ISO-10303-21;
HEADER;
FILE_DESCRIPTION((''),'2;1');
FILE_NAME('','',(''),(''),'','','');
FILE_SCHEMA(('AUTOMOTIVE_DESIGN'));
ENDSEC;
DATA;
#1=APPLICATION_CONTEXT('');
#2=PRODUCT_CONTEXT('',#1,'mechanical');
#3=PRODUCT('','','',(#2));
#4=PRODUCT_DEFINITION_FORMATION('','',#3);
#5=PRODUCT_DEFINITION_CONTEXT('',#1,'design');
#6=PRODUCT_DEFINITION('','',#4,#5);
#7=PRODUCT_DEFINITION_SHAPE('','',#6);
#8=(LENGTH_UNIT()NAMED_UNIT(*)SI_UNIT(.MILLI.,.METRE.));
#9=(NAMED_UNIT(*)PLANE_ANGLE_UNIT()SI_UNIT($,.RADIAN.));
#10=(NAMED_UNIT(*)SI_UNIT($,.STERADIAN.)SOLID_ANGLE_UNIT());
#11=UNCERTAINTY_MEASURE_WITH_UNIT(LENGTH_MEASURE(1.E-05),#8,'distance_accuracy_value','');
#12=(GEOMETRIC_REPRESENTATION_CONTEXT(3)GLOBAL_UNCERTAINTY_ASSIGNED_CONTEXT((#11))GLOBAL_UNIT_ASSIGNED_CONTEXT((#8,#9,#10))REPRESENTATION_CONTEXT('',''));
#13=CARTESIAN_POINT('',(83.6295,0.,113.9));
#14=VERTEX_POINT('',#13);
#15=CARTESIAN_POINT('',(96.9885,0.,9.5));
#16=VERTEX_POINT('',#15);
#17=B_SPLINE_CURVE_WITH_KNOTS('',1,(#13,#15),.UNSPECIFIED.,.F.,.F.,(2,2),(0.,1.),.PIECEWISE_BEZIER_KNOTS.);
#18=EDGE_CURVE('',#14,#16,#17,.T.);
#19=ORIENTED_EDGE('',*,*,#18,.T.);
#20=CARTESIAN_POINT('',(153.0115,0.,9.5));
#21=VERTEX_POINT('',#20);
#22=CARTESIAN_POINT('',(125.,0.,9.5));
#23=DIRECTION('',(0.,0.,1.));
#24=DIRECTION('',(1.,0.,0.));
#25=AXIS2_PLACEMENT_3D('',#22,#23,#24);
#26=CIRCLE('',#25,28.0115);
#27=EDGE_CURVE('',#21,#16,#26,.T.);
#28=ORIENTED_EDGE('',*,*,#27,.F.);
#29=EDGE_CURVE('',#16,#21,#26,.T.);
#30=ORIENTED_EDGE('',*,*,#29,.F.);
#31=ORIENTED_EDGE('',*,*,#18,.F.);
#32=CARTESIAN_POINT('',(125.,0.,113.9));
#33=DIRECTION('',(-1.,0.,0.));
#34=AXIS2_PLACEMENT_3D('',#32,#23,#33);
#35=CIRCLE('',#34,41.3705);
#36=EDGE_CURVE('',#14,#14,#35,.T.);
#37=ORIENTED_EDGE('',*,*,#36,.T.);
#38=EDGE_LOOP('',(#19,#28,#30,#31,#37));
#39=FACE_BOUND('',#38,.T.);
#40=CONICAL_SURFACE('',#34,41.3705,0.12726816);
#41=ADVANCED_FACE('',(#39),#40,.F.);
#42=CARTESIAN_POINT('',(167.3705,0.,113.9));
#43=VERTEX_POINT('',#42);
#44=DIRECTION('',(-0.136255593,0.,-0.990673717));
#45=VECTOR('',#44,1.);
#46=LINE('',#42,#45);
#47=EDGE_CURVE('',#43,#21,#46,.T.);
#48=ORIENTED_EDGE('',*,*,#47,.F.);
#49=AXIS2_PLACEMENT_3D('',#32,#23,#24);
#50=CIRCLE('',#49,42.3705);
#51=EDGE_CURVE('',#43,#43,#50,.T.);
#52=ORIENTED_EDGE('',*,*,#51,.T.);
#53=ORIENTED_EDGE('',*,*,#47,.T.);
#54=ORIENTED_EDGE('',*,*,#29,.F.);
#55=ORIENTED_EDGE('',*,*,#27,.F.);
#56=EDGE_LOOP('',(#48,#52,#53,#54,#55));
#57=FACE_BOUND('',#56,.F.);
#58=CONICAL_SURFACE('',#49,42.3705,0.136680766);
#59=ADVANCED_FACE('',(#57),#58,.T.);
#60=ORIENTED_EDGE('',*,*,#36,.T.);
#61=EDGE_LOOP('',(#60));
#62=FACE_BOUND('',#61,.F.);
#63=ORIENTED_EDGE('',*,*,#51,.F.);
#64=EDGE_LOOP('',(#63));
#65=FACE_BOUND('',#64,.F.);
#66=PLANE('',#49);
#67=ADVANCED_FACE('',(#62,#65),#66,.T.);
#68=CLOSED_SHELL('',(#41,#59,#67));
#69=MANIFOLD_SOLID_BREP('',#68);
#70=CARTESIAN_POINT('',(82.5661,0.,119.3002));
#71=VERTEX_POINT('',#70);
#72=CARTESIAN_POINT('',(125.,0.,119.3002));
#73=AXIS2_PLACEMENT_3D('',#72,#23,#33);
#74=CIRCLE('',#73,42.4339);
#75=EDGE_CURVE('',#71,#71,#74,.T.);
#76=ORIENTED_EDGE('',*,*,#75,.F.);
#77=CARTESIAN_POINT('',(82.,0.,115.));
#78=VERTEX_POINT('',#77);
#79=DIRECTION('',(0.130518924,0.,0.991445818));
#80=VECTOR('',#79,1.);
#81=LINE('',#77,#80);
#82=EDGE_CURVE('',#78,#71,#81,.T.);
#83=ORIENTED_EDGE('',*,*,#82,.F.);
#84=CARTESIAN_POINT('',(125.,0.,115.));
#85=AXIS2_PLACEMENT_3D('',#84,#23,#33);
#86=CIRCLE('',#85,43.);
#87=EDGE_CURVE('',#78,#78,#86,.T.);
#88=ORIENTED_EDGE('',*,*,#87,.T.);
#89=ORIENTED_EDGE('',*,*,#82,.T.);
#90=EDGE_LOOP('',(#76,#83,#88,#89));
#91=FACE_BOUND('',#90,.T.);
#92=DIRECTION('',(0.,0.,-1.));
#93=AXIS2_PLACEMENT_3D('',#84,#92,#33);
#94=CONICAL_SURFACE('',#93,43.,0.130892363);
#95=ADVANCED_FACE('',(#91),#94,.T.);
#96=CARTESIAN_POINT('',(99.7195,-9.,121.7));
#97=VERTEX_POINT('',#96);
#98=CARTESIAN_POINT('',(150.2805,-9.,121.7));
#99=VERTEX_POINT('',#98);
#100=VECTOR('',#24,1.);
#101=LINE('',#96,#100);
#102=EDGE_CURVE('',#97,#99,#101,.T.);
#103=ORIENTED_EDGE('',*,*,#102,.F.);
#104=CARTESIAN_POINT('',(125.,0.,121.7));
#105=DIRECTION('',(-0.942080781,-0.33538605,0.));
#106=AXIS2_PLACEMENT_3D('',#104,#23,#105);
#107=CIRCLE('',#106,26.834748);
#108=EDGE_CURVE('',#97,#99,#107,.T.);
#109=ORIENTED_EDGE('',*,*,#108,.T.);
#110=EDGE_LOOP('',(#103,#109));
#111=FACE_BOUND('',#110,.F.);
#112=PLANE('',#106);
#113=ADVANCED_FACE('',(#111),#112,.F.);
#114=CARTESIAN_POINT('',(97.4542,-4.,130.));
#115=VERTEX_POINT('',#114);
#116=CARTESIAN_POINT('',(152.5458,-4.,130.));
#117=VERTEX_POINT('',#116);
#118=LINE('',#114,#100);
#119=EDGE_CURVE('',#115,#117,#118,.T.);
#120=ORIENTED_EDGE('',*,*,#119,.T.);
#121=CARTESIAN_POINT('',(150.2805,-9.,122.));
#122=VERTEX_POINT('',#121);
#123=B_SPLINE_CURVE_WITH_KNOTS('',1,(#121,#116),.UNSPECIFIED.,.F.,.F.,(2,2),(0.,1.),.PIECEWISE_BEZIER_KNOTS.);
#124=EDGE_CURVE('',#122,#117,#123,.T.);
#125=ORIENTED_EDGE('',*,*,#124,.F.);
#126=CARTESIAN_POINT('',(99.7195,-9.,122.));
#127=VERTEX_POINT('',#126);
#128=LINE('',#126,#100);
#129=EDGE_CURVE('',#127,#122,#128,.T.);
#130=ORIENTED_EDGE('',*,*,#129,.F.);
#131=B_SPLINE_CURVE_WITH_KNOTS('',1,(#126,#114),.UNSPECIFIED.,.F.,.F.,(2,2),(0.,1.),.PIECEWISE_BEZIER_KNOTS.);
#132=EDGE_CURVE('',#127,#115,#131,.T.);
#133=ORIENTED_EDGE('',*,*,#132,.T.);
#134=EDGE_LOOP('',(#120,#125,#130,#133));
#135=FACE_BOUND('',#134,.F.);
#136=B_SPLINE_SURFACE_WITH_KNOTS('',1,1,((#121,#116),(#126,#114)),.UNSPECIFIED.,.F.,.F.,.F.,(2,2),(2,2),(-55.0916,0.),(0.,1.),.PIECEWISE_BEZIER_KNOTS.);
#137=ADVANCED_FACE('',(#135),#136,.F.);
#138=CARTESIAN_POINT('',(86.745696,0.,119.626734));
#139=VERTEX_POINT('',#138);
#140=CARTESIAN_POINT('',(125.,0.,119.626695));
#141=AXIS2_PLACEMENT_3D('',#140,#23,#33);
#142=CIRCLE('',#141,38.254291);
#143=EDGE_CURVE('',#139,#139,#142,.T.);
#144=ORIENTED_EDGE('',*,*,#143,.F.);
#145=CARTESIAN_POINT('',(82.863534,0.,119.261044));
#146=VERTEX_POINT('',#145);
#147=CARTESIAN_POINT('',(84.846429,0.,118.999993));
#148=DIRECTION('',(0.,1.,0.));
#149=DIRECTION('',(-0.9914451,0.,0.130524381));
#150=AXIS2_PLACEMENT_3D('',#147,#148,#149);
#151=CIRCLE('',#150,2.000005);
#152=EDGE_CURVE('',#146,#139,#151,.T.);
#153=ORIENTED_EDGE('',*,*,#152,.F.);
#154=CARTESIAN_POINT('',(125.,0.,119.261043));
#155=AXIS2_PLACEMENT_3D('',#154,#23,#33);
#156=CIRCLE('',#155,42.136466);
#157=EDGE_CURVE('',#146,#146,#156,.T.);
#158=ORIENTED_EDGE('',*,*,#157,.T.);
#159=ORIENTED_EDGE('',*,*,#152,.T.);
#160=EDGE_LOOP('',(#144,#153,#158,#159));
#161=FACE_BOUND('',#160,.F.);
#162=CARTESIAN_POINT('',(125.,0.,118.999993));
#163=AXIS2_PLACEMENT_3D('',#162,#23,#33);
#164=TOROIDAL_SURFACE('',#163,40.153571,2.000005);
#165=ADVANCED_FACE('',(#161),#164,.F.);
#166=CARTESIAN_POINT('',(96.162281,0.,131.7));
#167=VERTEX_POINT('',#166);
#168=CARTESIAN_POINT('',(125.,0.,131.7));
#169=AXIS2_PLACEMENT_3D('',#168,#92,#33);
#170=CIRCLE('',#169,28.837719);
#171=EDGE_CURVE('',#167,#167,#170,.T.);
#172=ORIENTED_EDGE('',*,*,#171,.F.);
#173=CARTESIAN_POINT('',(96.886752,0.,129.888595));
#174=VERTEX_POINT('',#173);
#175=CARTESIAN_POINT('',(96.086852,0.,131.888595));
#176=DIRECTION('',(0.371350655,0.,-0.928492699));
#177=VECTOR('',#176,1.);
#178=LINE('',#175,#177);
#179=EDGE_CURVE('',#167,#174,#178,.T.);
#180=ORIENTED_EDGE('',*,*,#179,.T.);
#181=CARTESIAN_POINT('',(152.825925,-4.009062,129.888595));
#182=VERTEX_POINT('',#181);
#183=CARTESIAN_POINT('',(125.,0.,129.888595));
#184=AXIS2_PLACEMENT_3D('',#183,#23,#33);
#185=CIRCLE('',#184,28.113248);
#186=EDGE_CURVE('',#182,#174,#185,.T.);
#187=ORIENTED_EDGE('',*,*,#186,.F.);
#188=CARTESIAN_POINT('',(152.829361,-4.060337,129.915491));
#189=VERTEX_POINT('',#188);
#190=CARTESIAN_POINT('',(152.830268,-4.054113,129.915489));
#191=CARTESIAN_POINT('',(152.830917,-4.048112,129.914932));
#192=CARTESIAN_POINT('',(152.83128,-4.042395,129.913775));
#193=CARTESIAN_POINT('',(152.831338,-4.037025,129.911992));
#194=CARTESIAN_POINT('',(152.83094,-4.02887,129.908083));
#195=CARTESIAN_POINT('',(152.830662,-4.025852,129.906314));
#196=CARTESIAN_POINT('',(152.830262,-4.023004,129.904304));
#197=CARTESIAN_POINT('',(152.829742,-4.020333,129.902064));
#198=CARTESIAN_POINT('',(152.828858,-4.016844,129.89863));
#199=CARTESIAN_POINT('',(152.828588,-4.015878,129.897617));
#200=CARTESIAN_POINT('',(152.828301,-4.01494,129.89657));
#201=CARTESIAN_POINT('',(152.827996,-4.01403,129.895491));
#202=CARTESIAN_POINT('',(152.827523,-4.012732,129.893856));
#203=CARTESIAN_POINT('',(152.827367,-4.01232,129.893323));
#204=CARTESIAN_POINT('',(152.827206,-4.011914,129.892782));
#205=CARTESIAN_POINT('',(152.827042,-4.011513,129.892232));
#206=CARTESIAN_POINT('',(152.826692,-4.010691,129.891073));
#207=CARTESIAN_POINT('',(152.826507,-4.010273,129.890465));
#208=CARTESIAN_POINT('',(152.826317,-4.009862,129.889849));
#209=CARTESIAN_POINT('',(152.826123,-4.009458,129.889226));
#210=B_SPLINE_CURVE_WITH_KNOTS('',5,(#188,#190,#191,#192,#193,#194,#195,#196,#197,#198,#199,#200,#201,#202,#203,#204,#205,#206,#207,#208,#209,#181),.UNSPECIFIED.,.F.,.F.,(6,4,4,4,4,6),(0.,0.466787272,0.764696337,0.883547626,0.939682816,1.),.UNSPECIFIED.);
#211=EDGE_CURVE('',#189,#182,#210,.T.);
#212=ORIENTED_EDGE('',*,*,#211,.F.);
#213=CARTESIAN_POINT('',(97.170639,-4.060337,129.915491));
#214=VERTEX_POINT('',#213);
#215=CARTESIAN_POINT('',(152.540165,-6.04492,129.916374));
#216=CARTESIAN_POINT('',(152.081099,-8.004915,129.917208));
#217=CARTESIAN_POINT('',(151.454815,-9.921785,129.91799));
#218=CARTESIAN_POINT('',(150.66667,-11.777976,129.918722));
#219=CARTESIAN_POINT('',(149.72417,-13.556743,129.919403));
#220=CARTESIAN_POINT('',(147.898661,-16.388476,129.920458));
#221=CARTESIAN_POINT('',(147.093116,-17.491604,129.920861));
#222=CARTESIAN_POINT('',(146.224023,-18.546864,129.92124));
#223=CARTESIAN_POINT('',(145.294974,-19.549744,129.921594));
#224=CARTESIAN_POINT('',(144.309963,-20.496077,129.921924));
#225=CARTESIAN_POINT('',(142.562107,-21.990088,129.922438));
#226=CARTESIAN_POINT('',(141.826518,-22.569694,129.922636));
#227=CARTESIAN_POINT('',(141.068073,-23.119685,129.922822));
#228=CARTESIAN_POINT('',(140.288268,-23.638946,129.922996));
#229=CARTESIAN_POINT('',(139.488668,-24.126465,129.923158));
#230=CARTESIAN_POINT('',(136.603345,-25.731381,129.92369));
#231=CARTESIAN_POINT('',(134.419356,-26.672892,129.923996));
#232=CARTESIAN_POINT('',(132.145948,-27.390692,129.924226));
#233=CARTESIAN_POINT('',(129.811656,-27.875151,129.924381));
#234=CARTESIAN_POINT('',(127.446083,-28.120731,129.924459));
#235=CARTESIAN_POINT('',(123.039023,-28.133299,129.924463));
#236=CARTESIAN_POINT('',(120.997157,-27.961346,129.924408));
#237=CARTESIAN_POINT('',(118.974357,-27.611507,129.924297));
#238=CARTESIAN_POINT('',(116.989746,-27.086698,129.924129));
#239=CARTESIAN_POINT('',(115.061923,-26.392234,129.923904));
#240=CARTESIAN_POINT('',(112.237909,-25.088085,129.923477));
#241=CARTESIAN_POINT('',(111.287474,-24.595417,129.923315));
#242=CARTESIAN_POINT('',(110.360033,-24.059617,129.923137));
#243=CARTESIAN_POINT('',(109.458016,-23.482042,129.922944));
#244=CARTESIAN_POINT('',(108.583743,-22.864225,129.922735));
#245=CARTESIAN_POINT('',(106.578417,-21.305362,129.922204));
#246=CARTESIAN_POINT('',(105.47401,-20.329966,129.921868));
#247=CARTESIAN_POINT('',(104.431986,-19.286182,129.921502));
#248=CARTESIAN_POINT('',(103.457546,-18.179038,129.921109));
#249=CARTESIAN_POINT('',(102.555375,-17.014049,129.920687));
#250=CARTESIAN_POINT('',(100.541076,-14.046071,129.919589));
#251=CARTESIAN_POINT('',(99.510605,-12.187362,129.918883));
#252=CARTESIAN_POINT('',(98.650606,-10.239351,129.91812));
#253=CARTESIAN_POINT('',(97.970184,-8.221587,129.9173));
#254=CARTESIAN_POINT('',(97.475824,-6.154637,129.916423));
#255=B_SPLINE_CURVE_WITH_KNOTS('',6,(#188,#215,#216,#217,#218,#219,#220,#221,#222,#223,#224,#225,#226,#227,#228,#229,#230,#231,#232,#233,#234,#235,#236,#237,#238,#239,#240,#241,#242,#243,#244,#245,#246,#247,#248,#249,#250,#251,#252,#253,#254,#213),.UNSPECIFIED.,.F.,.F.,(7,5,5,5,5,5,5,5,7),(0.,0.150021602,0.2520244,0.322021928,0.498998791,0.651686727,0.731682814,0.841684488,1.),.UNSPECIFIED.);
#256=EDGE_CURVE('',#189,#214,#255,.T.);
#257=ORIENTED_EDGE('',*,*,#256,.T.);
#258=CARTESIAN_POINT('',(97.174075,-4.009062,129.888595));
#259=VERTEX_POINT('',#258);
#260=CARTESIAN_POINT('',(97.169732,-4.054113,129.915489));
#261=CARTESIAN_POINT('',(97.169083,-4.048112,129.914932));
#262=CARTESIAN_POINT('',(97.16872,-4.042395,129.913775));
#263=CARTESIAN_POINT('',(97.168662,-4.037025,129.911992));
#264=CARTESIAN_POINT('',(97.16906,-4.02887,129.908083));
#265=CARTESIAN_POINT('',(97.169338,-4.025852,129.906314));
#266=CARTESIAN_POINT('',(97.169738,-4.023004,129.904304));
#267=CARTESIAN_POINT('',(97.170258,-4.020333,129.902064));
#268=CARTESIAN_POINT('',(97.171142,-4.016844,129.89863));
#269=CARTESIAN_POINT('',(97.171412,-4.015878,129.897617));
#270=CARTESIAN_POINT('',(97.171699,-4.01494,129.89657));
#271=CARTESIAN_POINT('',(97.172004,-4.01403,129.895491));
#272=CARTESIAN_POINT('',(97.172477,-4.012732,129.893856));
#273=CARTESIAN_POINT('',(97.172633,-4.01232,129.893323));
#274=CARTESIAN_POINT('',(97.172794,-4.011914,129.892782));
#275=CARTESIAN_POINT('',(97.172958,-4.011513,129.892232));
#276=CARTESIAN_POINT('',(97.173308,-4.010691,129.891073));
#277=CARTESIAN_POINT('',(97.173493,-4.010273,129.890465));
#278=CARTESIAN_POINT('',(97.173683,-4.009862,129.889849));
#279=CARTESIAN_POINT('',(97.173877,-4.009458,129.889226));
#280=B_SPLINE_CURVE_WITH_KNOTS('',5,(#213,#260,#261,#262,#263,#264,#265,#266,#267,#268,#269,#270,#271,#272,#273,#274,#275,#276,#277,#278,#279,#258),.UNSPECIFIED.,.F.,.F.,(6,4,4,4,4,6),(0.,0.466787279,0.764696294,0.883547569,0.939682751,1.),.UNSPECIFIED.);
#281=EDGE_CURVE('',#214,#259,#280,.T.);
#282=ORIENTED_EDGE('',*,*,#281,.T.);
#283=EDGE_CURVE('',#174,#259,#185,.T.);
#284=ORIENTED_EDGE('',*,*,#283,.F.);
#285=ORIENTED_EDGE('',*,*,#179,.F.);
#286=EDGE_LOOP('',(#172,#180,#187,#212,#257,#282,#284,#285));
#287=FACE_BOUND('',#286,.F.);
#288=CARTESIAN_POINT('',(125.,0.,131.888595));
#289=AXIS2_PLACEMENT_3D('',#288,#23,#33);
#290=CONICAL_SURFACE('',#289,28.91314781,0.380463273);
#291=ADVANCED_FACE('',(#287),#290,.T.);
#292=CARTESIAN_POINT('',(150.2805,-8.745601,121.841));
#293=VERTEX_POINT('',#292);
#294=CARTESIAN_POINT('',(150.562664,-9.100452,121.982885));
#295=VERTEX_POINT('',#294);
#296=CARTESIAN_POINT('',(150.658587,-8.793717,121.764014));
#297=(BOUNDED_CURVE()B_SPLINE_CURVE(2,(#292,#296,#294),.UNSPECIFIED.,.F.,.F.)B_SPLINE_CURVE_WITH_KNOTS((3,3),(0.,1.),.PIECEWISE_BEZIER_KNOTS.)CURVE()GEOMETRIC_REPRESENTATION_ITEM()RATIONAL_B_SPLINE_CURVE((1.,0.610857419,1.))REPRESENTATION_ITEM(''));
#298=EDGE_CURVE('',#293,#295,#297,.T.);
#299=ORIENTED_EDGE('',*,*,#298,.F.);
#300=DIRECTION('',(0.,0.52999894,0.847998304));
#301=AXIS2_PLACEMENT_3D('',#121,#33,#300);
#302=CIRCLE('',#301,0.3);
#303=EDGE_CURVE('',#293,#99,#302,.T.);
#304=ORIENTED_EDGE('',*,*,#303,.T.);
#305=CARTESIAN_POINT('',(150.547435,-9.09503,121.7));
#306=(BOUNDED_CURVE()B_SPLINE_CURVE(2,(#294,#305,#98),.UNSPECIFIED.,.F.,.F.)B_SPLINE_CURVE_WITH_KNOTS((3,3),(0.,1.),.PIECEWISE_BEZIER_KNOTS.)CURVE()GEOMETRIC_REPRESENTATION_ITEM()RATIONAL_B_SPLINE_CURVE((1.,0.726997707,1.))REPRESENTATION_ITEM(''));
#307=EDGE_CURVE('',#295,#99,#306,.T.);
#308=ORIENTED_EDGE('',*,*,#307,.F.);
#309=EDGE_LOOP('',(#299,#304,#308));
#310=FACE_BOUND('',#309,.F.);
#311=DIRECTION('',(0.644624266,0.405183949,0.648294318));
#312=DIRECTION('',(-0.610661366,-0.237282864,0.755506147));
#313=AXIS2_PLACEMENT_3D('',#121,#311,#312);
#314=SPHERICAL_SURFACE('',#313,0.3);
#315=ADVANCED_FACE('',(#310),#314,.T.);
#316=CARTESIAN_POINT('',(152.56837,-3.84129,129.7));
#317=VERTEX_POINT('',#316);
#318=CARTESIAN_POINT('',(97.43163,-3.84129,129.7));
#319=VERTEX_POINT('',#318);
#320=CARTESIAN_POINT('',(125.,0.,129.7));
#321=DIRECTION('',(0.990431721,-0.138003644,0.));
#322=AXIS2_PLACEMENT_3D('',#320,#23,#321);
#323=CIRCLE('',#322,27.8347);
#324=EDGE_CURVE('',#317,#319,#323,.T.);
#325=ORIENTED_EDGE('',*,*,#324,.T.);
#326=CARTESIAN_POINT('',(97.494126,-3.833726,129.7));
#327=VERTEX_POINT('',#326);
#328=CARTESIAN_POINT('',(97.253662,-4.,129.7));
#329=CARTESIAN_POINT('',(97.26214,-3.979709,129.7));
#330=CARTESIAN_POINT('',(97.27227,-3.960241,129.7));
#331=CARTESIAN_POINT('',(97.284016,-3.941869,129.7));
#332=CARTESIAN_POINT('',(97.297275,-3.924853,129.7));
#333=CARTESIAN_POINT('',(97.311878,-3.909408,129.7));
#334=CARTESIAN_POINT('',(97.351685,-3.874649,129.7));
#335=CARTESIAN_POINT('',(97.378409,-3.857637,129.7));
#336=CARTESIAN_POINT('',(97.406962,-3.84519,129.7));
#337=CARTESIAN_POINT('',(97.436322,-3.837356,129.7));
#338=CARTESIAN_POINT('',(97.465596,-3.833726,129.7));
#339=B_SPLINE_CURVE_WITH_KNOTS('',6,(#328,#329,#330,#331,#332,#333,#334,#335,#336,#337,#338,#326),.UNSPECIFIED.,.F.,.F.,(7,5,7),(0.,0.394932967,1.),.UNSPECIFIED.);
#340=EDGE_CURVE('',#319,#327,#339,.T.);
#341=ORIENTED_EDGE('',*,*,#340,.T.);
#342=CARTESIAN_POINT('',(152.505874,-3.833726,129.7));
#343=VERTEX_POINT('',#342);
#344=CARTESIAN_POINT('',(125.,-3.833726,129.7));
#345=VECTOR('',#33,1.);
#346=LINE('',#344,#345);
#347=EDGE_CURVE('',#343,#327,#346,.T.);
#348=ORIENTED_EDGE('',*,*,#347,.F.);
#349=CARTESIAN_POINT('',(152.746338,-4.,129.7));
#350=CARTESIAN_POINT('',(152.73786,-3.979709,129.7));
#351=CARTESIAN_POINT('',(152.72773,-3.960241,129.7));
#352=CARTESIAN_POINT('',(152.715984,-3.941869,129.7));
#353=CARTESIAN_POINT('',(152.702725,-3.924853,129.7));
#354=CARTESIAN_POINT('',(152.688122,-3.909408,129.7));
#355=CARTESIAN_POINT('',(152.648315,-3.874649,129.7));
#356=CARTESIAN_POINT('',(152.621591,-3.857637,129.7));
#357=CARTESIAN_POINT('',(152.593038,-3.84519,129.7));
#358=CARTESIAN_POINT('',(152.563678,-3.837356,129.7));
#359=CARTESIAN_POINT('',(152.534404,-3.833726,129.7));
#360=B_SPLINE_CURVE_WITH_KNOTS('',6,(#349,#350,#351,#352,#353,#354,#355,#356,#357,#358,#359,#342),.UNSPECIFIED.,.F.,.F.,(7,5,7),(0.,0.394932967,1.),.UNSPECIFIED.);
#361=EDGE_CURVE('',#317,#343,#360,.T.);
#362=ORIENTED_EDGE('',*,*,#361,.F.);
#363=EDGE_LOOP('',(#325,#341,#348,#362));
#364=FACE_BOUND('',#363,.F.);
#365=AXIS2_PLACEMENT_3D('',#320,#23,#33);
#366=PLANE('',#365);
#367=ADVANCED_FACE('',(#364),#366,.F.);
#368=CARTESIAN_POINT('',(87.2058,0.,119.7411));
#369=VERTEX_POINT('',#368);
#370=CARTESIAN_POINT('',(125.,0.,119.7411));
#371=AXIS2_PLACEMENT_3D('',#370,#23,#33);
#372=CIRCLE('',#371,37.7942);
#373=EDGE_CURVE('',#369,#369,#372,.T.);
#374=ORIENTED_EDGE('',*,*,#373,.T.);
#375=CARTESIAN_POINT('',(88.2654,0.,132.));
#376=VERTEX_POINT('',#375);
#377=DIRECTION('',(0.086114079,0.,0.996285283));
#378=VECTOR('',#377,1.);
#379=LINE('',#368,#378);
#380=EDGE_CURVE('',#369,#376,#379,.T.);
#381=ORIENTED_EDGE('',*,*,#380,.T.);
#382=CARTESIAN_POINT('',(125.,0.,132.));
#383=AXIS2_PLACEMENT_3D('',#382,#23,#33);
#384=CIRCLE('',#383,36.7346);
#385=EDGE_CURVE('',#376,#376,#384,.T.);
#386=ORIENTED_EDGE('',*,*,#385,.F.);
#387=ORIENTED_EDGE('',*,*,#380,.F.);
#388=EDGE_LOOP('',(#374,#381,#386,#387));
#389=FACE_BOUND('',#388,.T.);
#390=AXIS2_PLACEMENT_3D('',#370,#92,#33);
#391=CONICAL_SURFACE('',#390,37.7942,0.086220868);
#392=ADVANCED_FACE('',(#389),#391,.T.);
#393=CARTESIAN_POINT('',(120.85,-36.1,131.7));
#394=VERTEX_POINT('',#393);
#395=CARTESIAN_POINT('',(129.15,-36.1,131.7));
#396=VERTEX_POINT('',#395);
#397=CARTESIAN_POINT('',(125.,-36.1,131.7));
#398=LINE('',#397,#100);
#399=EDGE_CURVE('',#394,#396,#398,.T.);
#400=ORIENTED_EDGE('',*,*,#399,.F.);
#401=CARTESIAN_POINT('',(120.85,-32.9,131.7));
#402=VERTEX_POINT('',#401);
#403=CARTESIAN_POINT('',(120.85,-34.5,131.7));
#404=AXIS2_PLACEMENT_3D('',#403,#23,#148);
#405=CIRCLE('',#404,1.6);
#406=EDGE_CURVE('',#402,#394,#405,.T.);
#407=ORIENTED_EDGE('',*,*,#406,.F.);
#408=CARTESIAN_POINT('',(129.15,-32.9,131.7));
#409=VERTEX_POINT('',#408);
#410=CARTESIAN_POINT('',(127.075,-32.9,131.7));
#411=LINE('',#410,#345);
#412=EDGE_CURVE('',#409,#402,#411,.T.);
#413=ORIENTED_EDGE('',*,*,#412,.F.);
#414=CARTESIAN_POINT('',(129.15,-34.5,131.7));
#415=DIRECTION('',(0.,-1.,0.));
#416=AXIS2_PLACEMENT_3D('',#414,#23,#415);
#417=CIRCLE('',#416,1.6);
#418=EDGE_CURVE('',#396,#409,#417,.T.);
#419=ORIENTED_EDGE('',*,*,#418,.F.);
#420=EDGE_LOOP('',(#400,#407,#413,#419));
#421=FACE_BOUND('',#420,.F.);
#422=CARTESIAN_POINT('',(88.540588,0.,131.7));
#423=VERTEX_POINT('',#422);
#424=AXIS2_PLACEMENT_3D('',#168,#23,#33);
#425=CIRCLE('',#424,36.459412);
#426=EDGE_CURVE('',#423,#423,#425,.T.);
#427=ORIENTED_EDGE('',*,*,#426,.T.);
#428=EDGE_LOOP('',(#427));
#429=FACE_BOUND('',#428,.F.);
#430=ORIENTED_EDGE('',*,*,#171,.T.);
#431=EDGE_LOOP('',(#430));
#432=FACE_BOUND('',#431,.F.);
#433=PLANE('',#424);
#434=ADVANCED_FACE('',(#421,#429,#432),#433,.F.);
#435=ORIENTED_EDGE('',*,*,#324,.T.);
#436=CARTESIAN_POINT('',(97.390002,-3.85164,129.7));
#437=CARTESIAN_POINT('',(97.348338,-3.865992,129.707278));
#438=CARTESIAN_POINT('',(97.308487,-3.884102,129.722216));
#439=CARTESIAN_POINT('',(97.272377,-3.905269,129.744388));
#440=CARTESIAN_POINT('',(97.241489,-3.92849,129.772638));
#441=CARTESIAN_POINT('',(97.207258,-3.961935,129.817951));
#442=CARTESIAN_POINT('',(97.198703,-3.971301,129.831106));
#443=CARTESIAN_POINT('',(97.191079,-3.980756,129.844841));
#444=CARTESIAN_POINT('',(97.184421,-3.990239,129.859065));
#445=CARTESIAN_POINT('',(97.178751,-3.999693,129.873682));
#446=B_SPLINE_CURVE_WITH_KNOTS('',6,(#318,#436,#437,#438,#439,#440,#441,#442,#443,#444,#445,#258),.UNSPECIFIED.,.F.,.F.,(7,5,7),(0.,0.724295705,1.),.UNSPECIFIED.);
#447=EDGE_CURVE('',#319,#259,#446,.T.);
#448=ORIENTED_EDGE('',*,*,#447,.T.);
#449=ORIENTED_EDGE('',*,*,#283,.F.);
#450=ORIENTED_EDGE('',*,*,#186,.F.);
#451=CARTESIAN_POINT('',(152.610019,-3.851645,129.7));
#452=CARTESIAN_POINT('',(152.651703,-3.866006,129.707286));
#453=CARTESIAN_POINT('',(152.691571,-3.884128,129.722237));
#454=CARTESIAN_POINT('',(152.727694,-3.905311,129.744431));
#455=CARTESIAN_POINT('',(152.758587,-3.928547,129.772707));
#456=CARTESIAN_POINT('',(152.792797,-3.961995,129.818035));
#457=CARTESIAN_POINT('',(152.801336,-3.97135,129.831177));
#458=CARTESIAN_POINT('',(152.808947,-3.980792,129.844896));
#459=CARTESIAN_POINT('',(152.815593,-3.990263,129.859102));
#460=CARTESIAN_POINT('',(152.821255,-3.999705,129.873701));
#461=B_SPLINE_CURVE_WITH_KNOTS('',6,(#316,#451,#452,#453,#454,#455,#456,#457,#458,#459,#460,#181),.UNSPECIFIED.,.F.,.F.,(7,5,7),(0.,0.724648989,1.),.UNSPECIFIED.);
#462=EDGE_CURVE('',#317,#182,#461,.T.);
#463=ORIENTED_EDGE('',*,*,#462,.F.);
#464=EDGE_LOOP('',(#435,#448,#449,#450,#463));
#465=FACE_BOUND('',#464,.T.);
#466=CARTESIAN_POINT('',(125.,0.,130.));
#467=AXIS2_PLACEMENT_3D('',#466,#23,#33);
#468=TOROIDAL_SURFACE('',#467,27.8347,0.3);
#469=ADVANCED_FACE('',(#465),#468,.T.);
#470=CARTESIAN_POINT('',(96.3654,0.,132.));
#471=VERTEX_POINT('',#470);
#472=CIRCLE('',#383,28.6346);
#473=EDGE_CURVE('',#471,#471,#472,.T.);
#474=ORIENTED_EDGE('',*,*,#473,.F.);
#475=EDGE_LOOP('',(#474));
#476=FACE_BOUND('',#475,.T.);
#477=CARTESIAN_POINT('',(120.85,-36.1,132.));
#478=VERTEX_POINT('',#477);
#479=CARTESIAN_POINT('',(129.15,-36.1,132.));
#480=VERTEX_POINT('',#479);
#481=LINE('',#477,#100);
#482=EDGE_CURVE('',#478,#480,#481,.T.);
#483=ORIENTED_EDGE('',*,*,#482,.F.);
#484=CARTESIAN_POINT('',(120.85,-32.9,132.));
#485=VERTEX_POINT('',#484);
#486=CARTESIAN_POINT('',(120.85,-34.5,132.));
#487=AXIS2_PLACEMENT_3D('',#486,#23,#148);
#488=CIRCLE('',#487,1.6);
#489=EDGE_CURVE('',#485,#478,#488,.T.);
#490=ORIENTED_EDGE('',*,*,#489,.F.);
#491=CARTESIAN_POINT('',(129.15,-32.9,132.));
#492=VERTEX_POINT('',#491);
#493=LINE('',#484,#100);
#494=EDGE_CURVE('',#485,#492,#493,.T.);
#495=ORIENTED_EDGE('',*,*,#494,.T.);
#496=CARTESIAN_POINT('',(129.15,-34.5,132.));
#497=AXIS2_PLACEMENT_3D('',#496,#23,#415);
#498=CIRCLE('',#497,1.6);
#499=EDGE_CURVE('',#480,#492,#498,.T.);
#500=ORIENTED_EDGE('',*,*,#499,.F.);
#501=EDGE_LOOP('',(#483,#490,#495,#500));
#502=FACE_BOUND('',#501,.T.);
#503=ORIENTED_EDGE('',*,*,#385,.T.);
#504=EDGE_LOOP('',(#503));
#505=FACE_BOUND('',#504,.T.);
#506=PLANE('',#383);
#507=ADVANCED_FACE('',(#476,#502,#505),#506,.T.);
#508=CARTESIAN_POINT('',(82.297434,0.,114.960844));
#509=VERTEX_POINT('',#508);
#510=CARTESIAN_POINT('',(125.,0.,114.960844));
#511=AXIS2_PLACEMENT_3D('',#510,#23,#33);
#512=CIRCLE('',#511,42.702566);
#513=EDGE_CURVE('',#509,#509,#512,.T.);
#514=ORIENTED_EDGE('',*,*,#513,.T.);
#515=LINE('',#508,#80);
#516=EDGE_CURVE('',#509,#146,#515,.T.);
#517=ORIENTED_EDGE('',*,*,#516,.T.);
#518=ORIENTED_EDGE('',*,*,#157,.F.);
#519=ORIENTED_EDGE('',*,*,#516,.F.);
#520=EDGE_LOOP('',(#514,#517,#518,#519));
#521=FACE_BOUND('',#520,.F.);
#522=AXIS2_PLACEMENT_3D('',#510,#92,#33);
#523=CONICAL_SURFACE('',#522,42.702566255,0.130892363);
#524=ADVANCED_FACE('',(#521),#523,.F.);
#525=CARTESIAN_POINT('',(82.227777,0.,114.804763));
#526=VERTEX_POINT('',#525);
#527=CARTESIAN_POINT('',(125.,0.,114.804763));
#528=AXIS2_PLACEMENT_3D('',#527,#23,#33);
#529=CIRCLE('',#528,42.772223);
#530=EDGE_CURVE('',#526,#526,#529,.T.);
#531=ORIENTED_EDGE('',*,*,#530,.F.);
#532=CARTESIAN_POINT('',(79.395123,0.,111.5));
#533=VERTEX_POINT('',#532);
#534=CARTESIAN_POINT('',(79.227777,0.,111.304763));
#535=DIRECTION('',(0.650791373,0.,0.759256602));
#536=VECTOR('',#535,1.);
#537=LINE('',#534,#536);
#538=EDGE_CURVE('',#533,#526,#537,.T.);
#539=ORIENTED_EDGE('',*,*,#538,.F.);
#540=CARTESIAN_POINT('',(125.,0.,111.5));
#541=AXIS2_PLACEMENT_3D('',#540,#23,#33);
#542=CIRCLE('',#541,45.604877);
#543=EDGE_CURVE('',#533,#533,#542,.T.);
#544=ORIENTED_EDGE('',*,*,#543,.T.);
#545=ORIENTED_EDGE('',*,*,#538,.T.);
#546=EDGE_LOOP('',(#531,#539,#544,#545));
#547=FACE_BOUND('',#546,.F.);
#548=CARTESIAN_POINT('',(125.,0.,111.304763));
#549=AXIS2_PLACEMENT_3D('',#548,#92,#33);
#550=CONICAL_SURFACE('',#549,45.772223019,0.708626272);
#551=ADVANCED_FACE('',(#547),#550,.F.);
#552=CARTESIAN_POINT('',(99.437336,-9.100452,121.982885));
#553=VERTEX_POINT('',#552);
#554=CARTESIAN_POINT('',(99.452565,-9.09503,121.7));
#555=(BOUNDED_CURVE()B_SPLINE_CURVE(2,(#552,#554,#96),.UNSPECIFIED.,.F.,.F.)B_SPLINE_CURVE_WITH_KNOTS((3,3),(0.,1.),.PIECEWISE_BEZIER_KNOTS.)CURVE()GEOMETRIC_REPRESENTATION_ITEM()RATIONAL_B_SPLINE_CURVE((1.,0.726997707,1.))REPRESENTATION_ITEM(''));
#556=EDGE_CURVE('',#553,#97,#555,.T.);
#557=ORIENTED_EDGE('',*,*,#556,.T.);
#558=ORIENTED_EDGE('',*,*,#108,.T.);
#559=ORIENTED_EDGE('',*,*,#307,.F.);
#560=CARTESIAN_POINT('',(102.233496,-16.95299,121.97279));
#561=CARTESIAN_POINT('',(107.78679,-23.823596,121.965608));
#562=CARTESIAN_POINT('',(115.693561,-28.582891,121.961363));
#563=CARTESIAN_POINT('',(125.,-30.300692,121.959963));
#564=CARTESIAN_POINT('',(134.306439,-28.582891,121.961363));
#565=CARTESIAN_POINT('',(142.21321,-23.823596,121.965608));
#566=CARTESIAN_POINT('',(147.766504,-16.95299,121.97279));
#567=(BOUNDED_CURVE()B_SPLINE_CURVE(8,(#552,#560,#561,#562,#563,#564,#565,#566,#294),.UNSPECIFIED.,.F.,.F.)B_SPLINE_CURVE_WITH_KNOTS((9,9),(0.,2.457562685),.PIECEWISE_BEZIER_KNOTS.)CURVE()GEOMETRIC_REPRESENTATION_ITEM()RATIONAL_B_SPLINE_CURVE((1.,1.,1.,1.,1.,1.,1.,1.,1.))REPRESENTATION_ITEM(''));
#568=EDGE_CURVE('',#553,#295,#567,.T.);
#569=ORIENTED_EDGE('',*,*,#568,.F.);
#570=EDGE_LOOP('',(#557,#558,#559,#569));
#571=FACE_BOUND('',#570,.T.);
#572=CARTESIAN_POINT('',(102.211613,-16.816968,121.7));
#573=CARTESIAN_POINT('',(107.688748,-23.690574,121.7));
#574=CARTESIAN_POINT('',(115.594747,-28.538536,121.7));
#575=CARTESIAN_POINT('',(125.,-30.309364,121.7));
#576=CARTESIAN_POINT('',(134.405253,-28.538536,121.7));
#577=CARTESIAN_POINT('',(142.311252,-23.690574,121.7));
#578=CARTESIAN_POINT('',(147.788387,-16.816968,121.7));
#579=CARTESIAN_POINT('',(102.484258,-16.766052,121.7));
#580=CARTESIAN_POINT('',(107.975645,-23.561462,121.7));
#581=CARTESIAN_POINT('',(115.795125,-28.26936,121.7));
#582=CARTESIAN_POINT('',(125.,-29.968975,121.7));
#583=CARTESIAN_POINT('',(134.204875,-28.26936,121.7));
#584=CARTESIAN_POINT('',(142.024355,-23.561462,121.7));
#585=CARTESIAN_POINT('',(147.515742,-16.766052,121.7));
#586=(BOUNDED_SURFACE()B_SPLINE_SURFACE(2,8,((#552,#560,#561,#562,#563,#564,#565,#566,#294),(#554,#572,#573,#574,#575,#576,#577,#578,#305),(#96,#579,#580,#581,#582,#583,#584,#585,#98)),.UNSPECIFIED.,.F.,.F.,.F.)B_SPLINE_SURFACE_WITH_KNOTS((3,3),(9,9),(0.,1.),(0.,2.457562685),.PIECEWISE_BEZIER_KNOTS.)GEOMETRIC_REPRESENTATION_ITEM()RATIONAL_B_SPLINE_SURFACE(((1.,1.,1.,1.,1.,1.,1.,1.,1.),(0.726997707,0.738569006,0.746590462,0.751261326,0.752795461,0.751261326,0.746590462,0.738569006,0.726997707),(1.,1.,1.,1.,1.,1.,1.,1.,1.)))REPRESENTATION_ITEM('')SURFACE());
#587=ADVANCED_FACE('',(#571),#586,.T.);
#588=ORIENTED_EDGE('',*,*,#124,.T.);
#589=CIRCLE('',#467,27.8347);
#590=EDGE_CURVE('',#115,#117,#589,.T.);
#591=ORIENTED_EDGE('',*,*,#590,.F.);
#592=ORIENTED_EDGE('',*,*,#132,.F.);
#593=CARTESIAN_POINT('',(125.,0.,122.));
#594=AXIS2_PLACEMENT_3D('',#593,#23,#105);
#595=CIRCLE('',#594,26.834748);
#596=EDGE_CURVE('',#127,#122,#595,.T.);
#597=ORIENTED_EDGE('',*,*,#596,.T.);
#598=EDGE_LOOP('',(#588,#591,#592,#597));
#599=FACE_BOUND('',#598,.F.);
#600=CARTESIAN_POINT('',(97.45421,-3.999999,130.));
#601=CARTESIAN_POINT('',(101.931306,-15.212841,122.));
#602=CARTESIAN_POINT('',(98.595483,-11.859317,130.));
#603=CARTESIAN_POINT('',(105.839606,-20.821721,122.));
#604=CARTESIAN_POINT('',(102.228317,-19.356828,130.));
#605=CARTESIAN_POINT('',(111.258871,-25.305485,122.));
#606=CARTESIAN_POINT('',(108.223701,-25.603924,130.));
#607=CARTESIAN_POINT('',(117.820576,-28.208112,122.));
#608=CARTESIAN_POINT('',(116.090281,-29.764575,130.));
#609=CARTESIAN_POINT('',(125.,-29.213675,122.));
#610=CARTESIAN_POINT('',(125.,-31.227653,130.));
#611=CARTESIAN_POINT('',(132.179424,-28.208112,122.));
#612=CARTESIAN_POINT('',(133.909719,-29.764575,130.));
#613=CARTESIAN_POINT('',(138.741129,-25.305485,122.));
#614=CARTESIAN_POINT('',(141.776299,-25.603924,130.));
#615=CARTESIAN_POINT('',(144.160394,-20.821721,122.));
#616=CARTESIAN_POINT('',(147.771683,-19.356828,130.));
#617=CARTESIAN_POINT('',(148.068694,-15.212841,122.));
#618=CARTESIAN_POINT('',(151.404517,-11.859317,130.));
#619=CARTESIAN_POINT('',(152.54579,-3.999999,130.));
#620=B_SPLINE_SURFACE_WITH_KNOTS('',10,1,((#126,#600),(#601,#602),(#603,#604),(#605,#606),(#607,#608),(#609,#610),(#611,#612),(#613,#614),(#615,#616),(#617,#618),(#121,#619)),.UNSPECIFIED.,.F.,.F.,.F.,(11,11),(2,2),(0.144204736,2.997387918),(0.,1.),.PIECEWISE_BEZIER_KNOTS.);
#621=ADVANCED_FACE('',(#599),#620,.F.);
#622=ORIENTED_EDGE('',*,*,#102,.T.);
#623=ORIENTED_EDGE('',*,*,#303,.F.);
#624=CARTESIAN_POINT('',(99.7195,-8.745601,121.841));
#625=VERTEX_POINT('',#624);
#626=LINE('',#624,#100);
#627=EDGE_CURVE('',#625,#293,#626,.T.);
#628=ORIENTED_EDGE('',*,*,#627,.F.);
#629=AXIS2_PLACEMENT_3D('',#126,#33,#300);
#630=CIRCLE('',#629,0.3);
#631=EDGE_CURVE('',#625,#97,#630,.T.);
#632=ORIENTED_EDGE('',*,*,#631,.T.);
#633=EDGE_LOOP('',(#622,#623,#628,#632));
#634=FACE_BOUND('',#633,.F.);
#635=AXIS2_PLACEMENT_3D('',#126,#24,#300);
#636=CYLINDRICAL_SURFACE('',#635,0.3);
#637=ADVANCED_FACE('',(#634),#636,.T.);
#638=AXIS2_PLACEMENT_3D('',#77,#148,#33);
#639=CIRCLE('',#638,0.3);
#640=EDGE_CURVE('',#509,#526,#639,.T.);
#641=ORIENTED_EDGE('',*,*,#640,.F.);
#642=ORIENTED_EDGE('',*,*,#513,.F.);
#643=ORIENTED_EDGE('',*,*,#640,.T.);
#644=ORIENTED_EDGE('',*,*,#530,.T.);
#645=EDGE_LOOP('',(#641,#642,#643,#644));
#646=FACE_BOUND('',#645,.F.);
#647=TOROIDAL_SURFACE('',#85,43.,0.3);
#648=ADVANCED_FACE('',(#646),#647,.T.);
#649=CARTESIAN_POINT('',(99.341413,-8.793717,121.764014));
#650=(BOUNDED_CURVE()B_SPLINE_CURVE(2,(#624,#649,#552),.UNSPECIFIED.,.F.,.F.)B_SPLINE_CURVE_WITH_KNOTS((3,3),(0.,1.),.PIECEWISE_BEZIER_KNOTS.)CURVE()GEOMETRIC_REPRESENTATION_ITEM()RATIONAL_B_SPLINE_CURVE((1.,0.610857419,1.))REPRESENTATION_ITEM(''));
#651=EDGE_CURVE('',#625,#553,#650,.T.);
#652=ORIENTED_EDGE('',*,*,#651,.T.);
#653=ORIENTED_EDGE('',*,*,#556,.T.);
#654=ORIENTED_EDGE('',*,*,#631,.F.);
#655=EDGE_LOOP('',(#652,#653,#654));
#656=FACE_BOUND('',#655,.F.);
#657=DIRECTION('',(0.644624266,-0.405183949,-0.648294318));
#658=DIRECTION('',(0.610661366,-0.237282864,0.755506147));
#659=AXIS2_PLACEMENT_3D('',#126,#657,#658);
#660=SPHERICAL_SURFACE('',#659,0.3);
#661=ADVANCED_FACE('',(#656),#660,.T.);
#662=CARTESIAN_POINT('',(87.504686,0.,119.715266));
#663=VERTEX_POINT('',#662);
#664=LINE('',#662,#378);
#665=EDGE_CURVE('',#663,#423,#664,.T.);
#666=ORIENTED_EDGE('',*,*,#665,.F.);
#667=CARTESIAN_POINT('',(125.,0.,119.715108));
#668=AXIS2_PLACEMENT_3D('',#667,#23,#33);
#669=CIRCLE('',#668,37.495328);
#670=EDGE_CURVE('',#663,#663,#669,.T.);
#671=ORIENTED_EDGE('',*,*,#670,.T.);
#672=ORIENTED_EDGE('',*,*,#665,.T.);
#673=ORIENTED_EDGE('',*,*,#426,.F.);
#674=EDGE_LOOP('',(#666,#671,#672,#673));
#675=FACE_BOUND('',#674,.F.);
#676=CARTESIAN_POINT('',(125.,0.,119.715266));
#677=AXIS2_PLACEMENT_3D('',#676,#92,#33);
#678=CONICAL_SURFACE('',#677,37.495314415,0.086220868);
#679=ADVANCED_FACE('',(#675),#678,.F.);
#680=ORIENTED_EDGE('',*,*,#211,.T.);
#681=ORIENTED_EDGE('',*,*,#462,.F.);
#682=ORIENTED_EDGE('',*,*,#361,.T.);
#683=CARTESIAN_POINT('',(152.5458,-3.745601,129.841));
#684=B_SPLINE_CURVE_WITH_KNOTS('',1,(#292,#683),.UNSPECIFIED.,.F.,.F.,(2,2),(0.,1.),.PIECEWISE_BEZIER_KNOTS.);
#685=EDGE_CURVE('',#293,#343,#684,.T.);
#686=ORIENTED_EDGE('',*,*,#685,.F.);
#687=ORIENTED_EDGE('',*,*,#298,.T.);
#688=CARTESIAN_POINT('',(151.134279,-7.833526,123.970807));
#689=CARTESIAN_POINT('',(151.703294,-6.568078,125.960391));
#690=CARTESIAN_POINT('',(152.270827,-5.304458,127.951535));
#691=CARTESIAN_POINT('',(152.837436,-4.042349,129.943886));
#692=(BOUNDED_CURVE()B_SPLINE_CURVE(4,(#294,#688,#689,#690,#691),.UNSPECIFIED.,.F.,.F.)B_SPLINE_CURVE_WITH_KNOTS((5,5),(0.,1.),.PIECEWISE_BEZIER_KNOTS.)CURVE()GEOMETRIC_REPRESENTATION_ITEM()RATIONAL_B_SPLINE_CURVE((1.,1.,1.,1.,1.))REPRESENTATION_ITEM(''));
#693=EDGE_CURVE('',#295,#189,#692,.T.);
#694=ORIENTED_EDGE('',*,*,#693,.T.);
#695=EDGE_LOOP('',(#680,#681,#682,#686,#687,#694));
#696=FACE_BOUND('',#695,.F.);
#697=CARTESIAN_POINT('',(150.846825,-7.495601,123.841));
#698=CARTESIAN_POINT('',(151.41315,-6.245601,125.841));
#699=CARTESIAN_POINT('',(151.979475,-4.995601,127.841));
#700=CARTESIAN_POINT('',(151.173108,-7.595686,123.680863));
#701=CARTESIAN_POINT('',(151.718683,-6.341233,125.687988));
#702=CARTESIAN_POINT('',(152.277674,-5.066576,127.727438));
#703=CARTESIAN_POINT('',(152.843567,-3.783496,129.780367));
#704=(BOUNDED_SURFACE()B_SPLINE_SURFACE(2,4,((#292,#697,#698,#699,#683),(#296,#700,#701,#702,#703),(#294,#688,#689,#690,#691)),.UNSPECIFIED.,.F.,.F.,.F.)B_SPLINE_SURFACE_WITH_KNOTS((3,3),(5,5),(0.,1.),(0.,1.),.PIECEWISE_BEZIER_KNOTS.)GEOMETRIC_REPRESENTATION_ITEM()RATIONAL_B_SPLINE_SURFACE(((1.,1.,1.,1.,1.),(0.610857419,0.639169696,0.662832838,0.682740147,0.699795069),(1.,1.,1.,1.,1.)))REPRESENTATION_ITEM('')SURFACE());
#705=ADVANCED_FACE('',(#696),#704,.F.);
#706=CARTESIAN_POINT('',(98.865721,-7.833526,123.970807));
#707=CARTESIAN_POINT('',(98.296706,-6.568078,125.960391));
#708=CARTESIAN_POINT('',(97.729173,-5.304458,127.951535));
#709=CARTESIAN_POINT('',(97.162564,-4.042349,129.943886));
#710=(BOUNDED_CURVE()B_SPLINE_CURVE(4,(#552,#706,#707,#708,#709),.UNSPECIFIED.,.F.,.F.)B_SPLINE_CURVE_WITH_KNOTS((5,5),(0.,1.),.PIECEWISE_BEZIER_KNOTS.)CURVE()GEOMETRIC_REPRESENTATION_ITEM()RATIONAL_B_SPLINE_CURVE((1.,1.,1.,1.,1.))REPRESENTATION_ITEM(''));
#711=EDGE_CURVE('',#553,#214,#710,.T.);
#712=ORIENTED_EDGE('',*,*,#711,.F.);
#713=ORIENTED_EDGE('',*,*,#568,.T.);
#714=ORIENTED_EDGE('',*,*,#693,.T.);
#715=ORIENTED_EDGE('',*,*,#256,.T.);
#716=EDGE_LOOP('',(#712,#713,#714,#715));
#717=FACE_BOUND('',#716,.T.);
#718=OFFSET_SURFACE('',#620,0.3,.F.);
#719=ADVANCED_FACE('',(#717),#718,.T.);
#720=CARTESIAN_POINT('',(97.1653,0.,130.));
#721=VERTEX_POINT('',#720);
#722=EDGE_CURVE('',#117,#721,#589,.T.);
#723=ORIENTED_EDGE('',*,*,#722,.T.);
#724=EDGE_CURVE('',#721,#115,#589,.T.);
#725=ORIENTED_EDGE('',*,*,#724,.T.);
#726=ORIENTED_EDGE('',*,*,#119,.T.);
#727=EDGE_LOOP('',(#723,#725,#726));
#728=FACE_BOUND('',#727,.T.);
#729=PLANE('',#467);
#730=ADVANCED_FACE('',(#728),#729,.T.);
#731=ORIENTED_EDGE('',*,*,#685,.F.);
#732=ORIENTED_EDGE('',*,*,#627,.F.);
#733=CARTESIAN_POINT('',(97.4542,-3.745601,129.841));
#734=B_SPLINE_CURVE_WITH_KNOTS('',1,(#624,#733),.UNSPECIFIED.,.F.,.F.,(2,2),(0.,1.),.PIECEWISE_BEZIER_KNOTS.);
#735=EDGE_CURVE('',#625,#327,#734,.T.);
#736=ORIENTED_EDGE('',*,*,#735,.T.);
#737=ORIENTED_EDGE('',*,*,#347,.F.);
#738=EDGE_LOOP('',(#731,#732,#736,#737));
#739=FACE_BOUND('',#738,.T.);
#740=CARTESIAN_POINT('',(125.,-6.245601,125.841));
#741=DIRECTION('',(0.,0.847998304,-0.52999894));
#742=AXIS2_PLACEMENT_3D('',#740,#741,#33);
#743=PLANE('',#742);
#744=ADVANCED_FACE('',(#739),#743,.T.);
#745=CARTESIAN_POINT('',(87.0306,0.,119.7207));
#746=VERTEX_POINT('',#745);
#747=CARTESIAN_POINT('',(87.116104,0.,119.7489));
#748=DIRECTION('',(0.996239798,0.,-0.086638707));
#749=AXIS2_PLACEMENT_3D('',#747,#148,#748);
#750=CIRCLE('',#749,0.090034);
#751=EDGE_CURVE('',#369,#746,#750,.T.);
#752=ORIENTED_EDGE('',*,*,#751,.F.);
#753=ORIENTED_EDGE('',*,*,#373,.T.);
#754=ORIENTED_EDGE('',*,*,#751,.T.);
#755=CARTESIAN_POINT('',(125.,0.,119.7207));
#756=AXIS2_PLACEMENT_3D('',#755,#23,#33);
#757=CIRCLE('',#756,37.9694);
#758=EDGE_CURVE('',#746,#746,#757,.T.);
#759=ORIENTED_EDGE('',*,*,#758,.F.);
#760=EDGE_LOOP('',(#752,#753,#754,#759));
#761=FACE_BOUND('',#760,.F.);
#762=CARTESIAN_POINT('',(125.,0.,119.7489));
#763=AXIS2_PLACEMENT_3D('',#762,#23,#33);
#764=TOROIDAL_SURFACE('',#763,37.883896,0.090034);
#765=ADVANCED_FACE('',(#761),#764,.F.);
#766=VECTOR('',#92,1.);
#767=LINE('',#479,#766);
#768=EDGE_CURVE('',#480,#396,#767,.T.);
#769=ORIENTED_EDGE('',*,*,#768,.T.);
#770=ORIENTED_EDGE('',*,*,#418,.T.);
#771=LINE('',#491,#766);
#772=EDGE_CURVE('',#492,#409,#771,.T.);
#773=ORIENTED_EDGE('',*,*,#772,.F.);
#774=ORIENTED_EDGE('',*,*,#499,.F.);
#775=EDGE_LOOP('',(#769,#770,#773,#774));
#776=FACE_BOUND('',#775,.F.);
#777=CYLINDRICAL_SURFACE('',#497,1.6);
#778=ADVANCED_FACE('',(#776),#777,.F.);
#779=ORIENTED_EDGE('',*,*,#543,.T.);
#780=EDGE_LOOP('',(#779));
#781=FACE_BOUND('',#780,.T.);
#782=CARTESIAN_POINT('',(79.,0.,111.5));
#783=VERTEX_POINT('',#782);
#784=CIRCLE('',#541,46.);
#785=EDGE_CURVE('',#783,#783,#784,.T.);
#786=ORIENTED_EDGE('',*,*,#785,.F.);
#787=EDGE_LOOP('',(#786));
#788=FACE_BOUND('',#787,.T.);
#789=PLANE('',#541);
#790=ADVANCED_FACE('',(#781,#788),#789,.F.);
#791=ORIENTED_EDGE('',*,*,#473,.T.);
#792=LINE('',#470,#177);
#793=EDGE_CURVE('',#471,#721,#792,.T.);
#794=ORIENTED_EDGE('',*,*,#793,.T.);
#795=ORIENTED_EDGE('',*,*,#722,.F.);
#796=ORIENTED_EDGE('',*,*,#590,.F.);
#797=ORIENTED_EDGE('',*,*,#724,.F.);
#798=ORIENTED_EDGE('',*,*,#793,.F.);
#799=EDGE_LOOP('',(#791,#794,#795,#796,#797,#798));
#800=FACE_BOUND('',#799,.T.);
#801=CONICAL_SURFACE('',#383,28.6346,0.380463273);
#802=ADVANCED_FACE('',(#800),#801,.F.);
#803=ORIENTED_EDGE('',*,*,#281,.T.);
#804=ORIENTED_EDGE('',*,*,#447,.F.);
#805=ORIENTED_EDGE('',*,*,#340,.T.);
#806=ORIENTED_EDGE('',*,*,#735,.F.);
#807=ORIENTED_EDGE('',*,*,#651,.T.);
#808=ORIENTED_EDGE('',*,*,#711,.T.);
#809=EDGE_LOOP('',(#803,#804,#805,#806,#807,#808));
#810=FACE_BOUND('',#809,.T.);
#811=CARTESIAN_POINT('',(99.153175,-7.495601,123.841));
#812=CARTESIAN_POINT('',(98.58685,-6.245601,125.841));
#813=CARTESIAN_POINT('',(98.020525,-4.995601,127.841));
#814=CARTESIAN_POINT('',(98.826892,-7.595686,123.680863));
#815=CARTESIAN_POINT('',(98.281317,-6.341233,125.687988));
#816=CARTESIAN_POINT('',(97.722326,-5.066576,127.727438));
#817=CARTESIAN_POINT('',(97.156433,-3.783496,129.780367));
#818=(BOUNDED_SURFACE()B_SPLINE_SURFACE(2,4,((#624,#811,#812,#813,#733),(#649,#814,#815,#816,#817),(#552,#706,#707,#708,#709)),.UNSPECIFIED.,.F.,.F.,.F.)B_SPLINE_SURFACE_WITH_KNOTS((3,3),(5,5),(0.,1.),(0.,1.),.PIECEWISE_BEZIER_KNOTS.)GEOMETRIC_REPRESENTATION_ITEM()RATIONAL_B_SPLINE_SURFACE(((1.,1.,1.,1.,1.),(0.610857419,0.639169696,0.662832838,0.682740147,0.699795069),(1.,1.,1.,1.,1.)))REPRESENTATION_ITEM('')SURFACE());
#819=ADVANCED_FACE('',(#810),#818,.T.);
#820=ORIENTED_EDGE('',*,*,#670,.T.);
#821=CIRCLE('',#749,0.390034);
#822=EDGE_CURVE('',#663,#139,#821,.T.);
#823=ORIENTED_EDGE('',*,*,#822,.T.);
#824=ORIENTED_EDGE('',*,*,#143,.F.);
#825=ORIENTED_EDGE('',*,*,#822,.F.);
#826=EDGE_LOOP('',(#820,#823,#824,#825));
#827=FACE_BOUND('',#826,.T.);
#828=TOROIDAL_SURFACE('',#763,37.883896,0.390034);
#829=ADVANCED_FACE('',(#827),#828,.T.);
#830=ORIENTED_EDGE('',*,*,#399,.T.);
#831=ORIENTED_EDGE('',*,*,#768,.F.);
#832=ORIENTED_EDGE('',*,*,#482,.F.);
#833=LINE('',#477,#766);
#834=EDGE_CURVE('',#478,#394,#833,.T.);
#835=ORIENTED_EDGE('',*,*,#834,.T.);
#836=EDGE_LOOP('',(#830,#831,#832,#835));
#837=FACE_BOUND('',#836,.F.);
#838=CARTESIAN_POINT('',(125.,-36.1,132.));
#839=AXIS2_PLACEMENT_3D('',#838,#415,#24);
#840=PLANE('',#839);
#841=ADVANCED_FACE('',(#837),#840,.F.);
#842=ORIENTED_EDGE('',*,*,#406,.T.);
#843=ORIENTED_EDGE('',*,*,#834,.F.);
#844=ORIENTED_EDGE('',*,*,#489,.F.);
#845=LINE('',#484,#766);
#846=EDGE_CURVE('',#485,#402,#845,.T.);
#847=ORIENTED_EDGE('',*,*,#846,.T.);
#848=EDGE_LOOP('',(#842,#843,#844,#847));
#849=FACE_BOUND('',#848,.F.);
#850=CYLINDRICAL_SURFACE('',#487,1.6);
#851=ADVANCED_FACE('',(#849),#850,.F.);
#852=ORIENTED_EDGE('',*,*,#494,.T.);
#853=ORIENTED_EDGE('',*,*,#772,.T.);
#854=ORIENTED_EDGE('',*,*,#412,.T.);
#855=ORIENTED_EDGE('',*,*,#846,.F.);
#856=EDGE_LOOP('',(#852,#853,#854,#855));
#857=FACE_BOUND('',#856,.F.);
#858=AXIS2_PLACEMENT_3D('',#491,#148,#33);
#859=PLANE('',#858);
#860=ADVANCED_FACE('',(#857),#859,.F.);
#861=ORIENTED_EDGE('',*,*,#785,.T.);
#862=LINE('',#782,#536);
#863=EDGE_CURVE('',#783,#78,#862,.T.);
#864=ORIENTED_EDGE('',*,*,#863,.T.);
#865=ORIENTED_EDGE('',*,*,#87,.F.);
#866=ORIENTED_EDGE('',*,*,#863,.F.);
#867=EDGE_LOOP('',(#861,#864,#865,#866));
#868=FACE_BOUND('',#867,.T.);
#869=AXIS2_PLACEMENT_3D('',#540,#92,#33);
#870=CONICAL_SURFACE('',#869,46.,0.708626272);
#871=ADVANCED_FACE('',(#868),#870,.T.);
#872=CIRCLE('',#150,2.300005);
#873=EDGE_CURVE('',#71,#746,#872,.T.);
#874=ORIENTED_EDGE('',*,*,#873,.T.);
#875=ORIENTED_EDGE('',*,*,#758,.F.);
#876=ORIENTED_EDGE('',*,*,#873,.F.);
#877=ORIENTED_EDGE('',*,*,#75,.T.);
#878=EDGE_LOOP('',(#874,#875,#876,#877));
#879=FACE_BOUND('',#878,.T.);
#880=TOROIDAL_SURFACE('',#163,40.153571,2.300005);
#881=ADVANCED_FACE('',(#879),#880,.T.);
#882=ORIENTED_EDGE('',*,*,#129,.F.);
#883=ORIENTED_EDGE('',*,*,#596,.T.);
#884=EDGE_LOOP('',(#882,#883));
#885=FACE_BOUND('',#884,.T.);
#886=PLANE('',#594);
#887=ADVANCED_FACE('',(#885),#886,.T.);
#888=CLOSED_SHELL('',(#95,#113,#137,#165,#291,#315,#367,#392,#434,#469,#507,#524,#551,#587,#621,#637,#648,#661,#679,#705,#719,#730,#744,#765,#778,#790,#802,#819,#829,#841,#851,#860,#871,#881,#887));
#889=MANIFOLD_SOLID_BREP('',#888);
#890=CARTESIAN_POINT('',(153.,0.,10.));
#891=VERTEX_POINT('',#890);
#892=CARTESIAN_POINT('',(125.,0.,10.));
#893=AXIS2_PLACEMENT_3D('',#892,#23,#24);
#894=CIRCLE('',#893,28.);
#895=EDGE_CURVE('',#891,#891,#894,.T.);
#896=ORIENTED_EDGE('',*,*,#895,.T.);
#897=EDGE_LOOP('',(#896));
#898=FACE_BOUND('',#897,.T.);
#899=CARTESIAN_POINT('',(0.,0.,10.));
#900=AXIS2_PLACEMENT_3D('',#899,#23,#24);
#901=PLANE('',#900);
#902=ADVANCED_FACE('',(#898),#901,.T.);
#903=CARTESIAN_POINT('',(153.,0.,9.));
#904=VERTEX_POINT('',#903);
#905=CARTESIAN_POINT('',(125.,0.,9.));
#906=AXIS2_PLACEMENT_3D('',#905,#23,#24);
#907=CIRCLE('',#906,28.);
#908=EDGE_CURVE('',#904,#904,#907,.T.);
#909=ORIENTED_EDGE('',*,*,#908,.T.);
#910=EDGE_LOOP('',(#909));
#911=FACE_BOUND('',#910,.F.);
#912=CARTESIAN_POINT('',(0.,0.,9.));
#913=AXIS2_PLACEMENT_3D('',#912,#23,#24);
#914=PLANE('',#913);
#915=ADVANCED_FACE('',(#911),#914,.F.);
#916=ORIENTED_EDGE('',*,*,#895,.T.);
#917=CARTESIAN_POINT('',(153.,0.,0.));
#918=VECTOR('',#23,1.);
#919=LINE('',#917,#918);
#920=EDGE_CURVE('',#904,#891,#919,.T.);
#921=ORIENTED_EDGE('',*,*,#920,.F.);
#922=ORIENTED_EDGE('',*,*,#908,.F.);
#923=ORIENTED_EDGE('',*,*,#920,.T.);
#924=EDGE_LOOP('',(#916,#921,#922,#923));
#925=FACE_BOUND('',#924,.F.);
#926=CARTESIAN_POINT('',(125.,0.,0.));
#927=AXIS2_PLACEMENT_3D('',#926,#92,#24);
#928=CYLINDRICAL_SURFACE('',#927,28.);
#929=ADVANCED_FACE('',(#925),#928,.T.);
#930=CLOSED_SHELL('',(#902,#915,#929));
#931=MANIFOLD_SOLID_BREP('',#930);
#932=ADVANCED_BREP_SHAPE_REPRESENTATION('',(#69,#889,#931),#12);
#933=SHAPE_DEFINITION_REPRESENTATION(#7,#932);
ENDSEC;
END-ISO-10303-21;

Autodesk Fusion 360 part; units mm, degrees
sketch "Sketch1" plane through (0, 0, 0) normal (0, 1, 0) x (1, 0, 0)
  line L0 (0, 0) -> (0, -80)
  line L1 (0, 0) -> (-46, 0)
  line L2 (-46, 0) -> (-43, -3.5)
  line L3 (-43, -3.5) -> (-42.4339, -7.8002)
  arc A0 (-42.4339, -7.8002) -> (-37.9694, -8.2207) centre (-40.1535, -7.5) ccw
  arc A1 (-37.7942, -8.2411) -> (-37.9694, -8.2207) centre (-37.8839, -8.2489) ccw
  line L4 (-37.7942, -8.2411) -> (-36.7346, -20.5)
  line L5 (-36.7346, -20.5) -> (-28.6346, -20.5)
  line L6 (-28.6346, -20.5) -> (-27.8347, -18.5)
  line L7 (-27.8347, -18.5) -> (0, -18.5)
  dimension "d1" = 7.5
  dimension "d2" = 3.5
  dimension "d3" = 0.09
  dimension "d4" = 2.3
  dimension "d5" = 86
  dimension "d6" = 92
  dimension "d7" = 82.5
  dimension "d8" = 85.06
  dimension "d9" = 8.1
  dimension "d10" = 111.8
  dimension "d11" = 20.5
  dimension "d13" = 2
revolve "Revolve1" add sketch "Sketch1" angle 360 about axis through (0, 0, 0) along (0, 0, 1) makes body 1
sketch "Sketch2" plane through (0, 0, 18.5) normal (0, 0, 1) x (-1, 0, 0)
  circle A0 centre (0, 0) radius 27.8347
  line L0 (27.8347, 0) -> (-27.8347, 0)
  line L1 (27.5458, 4) -> (-27.5458, 4)
ref_plane "WorkPlane1" through (0, 0, 10.5) normal (0, 0, 1) x (1, 0, 0)
sketch "Sketch3" plane through (0, 0, 10.5) normal (0, 0, 1) x (1, 0, 0)
  line L0 (-27.5458, -4) -> (27.5458, -4)
  circle A0 centre (0, 0) radius 27.8347
  line L1 (-25.2805, -9) -> (25.2805, -9)
  arc A1 (-25.2805, -9) -> (25.2805, -9) centre (0, 0) ccw
loft "Loft1" cut profiles "Sketch3", "Sketch2" section 1 contours L1 A1 section 2 contours A0 L1 bodies 1
shell "Shell1" thickness 0.3 removed faces 1 at (1.1459, 15.2905, 0) on bodies 1
sketch "Sketch4" plane through (0, 0, 20.5) normal (0, 0, 1) x (-1, 0, 0)
  circle A0 centre (0, 0) radius 28.6346
  circle A1 centre (0, 0) radius 36.7346
  line L0 (0, 0) -> (0, 59)
  line L1 (4.15, 36.1) -> (-4.15, 36.1)
  arc A2 (-4.15, 36.1) -> (-4.15, 32.9) centre (-4.15, 34.5) ccw
  line L2 (-4.15, 32.9) -> (4.15, 32.9)
  arc A3 (4.15, 32.9) -> (4.15, 36.1) centre (4.15, 34.5) ccw
  dimension "d24" = 3.2
extrude "Extrude1" cut sketch "Sketch4" against normal blind 1 contours L0 L1 A2 L2 | L0 L1 L2 A3 bodies 1
sketch "Sketch5" plane through (0, 0, 0) normal (0, 1, 0) x (1, 0, 0)
  line L0 (125, -125) -> (125, -9.5)
  line L1 (96.064, -9.5) -> (96, -9.5)
  line L2 (125, -9.5) -> (154, -9.5)
  line L3 (125, -9.5) -> (125, -115.9)
  line L4 (125, -115.9) -> (166.3611, -115.9)
  line L5 (168.3799, -113.9) -> (152.7128, 0.0109)
  line L6 (152.7128, 0.0109) -> (125, 0.0109)
  line L7 (125, 0.0109) -> (125, -9.5)
  line L8 (125, -115.9) -> (125, -113.9)
  line L9 (125, -113.9) -> (168.3799, -113.9)
  line L10 (168.3799, -113.9) -> (168.3424, -113.6275)
  arc A0 (166.3611, -115.9) -> (168.3424, -113.6275) centre (166.3611, -113.9) ccw
  line L11 (125, -9.5) -> (125, -8.5)
  line L12 (125, -8.5) -> (153.8834, -8.5)
  line L13 (168.3799, -113.9) -> (168.3611, -113.9026)
  line L14 (167.3705, -113.9) -> (153.0115, -9.5)
  line L15 (153.8834, -8.5) -> (152.8834, -8.5)
  line L16 (152.7128, 0.0109) -> (151.7128, 0.0109)
  line L17 (151.7128, 0.0109) -> (152.8834, -8.5)
  dimension "d29" = 29
  dimension "d30" = 29
  dimension "d34" = 2
  dimension "d35" = 2
  dimension "d36" = 1
  dimension "d38" = 1
  dimension "d39" = 1
revolve "Revolve2" add sketch "Sketch5" angle 360 about axis through (125, 0, 125) along (0, 0, 1) separate body contours L0 L2 L3 L9 L14 makes body 2
sketch "Sketch6" plane through (0, 0, 113.9) normal (0, 0, 1) x (-1, 0, 0)
  circle A0 centre (-125, 0) radius 42.3705
  circle A1 centre (-125, 0) radius 42.3705
  line L0 (-124.9756, -42.3705) -> (-124.9756, -41.3705)
  circle A2 centre (-125, 0) radius 41.3705
  circle A3 centre (-125, 0) radius 28
  line L1 (-125, -28) -> (-125, -27)
  circle A4 centre (-125, 0) radius 27
  circle A5 centre (-125, 0) radius 42.3705
  circle A6 centre (-125, 0) radius 41.3705
  dimension "d41" = 1
sketch "Sketch7" plane through (0, 0, 0) normal (0, 1, 0) x (1, 0, 0)
  line L0 (125, -140) -> (125, -10)
  line L1 (125, -10) -> (97.0147, -9.4913)
  line L2 (97.0147, -9.4913) -> (82.63, -113.9)
  line L3 (82.63, -113.9) -> (167.3674, -113.9)
  line L4 (167.3674, -113.9) -> (152.9263, -9.4913)
loft "Loft2" cut profiles "Sketch6" section 1 contours A2 A6 section 2 face at (116.5875, -4.0512, 9.5) on bodies 2 bodies 2
sketch "Sketch8" plane through (0, 0, 0) normal (0, 0, 1) x (1, 0, 0)
  circle A0 centre (125, 0) radius 28
extrude "Extrude2" add sketch "Sketch8" along normal blind 10 separate body makes body 3
extrude "Extrude3" cut 1 faces at (130.4867, -10.7414, 0) along direction (0, 0, 1) blind 9 on bodies 3 bodies 3
copy_body "Body->Comp1" bodies 1 removing the originals makes body 4 in component "Component"
copy_body "Body->Comp2" bodies 2 removing the originals makes body 5 in component "Component'"
component "Component" placed x (1, 0, 0) y (0, 1, 0) z (0, 0, 1) at (125, 0, 111.5)
component "Component'" placed x (1, 0, 0) y (0, 1, 0) z (0, 0, 1) at (0, 0, 0)
